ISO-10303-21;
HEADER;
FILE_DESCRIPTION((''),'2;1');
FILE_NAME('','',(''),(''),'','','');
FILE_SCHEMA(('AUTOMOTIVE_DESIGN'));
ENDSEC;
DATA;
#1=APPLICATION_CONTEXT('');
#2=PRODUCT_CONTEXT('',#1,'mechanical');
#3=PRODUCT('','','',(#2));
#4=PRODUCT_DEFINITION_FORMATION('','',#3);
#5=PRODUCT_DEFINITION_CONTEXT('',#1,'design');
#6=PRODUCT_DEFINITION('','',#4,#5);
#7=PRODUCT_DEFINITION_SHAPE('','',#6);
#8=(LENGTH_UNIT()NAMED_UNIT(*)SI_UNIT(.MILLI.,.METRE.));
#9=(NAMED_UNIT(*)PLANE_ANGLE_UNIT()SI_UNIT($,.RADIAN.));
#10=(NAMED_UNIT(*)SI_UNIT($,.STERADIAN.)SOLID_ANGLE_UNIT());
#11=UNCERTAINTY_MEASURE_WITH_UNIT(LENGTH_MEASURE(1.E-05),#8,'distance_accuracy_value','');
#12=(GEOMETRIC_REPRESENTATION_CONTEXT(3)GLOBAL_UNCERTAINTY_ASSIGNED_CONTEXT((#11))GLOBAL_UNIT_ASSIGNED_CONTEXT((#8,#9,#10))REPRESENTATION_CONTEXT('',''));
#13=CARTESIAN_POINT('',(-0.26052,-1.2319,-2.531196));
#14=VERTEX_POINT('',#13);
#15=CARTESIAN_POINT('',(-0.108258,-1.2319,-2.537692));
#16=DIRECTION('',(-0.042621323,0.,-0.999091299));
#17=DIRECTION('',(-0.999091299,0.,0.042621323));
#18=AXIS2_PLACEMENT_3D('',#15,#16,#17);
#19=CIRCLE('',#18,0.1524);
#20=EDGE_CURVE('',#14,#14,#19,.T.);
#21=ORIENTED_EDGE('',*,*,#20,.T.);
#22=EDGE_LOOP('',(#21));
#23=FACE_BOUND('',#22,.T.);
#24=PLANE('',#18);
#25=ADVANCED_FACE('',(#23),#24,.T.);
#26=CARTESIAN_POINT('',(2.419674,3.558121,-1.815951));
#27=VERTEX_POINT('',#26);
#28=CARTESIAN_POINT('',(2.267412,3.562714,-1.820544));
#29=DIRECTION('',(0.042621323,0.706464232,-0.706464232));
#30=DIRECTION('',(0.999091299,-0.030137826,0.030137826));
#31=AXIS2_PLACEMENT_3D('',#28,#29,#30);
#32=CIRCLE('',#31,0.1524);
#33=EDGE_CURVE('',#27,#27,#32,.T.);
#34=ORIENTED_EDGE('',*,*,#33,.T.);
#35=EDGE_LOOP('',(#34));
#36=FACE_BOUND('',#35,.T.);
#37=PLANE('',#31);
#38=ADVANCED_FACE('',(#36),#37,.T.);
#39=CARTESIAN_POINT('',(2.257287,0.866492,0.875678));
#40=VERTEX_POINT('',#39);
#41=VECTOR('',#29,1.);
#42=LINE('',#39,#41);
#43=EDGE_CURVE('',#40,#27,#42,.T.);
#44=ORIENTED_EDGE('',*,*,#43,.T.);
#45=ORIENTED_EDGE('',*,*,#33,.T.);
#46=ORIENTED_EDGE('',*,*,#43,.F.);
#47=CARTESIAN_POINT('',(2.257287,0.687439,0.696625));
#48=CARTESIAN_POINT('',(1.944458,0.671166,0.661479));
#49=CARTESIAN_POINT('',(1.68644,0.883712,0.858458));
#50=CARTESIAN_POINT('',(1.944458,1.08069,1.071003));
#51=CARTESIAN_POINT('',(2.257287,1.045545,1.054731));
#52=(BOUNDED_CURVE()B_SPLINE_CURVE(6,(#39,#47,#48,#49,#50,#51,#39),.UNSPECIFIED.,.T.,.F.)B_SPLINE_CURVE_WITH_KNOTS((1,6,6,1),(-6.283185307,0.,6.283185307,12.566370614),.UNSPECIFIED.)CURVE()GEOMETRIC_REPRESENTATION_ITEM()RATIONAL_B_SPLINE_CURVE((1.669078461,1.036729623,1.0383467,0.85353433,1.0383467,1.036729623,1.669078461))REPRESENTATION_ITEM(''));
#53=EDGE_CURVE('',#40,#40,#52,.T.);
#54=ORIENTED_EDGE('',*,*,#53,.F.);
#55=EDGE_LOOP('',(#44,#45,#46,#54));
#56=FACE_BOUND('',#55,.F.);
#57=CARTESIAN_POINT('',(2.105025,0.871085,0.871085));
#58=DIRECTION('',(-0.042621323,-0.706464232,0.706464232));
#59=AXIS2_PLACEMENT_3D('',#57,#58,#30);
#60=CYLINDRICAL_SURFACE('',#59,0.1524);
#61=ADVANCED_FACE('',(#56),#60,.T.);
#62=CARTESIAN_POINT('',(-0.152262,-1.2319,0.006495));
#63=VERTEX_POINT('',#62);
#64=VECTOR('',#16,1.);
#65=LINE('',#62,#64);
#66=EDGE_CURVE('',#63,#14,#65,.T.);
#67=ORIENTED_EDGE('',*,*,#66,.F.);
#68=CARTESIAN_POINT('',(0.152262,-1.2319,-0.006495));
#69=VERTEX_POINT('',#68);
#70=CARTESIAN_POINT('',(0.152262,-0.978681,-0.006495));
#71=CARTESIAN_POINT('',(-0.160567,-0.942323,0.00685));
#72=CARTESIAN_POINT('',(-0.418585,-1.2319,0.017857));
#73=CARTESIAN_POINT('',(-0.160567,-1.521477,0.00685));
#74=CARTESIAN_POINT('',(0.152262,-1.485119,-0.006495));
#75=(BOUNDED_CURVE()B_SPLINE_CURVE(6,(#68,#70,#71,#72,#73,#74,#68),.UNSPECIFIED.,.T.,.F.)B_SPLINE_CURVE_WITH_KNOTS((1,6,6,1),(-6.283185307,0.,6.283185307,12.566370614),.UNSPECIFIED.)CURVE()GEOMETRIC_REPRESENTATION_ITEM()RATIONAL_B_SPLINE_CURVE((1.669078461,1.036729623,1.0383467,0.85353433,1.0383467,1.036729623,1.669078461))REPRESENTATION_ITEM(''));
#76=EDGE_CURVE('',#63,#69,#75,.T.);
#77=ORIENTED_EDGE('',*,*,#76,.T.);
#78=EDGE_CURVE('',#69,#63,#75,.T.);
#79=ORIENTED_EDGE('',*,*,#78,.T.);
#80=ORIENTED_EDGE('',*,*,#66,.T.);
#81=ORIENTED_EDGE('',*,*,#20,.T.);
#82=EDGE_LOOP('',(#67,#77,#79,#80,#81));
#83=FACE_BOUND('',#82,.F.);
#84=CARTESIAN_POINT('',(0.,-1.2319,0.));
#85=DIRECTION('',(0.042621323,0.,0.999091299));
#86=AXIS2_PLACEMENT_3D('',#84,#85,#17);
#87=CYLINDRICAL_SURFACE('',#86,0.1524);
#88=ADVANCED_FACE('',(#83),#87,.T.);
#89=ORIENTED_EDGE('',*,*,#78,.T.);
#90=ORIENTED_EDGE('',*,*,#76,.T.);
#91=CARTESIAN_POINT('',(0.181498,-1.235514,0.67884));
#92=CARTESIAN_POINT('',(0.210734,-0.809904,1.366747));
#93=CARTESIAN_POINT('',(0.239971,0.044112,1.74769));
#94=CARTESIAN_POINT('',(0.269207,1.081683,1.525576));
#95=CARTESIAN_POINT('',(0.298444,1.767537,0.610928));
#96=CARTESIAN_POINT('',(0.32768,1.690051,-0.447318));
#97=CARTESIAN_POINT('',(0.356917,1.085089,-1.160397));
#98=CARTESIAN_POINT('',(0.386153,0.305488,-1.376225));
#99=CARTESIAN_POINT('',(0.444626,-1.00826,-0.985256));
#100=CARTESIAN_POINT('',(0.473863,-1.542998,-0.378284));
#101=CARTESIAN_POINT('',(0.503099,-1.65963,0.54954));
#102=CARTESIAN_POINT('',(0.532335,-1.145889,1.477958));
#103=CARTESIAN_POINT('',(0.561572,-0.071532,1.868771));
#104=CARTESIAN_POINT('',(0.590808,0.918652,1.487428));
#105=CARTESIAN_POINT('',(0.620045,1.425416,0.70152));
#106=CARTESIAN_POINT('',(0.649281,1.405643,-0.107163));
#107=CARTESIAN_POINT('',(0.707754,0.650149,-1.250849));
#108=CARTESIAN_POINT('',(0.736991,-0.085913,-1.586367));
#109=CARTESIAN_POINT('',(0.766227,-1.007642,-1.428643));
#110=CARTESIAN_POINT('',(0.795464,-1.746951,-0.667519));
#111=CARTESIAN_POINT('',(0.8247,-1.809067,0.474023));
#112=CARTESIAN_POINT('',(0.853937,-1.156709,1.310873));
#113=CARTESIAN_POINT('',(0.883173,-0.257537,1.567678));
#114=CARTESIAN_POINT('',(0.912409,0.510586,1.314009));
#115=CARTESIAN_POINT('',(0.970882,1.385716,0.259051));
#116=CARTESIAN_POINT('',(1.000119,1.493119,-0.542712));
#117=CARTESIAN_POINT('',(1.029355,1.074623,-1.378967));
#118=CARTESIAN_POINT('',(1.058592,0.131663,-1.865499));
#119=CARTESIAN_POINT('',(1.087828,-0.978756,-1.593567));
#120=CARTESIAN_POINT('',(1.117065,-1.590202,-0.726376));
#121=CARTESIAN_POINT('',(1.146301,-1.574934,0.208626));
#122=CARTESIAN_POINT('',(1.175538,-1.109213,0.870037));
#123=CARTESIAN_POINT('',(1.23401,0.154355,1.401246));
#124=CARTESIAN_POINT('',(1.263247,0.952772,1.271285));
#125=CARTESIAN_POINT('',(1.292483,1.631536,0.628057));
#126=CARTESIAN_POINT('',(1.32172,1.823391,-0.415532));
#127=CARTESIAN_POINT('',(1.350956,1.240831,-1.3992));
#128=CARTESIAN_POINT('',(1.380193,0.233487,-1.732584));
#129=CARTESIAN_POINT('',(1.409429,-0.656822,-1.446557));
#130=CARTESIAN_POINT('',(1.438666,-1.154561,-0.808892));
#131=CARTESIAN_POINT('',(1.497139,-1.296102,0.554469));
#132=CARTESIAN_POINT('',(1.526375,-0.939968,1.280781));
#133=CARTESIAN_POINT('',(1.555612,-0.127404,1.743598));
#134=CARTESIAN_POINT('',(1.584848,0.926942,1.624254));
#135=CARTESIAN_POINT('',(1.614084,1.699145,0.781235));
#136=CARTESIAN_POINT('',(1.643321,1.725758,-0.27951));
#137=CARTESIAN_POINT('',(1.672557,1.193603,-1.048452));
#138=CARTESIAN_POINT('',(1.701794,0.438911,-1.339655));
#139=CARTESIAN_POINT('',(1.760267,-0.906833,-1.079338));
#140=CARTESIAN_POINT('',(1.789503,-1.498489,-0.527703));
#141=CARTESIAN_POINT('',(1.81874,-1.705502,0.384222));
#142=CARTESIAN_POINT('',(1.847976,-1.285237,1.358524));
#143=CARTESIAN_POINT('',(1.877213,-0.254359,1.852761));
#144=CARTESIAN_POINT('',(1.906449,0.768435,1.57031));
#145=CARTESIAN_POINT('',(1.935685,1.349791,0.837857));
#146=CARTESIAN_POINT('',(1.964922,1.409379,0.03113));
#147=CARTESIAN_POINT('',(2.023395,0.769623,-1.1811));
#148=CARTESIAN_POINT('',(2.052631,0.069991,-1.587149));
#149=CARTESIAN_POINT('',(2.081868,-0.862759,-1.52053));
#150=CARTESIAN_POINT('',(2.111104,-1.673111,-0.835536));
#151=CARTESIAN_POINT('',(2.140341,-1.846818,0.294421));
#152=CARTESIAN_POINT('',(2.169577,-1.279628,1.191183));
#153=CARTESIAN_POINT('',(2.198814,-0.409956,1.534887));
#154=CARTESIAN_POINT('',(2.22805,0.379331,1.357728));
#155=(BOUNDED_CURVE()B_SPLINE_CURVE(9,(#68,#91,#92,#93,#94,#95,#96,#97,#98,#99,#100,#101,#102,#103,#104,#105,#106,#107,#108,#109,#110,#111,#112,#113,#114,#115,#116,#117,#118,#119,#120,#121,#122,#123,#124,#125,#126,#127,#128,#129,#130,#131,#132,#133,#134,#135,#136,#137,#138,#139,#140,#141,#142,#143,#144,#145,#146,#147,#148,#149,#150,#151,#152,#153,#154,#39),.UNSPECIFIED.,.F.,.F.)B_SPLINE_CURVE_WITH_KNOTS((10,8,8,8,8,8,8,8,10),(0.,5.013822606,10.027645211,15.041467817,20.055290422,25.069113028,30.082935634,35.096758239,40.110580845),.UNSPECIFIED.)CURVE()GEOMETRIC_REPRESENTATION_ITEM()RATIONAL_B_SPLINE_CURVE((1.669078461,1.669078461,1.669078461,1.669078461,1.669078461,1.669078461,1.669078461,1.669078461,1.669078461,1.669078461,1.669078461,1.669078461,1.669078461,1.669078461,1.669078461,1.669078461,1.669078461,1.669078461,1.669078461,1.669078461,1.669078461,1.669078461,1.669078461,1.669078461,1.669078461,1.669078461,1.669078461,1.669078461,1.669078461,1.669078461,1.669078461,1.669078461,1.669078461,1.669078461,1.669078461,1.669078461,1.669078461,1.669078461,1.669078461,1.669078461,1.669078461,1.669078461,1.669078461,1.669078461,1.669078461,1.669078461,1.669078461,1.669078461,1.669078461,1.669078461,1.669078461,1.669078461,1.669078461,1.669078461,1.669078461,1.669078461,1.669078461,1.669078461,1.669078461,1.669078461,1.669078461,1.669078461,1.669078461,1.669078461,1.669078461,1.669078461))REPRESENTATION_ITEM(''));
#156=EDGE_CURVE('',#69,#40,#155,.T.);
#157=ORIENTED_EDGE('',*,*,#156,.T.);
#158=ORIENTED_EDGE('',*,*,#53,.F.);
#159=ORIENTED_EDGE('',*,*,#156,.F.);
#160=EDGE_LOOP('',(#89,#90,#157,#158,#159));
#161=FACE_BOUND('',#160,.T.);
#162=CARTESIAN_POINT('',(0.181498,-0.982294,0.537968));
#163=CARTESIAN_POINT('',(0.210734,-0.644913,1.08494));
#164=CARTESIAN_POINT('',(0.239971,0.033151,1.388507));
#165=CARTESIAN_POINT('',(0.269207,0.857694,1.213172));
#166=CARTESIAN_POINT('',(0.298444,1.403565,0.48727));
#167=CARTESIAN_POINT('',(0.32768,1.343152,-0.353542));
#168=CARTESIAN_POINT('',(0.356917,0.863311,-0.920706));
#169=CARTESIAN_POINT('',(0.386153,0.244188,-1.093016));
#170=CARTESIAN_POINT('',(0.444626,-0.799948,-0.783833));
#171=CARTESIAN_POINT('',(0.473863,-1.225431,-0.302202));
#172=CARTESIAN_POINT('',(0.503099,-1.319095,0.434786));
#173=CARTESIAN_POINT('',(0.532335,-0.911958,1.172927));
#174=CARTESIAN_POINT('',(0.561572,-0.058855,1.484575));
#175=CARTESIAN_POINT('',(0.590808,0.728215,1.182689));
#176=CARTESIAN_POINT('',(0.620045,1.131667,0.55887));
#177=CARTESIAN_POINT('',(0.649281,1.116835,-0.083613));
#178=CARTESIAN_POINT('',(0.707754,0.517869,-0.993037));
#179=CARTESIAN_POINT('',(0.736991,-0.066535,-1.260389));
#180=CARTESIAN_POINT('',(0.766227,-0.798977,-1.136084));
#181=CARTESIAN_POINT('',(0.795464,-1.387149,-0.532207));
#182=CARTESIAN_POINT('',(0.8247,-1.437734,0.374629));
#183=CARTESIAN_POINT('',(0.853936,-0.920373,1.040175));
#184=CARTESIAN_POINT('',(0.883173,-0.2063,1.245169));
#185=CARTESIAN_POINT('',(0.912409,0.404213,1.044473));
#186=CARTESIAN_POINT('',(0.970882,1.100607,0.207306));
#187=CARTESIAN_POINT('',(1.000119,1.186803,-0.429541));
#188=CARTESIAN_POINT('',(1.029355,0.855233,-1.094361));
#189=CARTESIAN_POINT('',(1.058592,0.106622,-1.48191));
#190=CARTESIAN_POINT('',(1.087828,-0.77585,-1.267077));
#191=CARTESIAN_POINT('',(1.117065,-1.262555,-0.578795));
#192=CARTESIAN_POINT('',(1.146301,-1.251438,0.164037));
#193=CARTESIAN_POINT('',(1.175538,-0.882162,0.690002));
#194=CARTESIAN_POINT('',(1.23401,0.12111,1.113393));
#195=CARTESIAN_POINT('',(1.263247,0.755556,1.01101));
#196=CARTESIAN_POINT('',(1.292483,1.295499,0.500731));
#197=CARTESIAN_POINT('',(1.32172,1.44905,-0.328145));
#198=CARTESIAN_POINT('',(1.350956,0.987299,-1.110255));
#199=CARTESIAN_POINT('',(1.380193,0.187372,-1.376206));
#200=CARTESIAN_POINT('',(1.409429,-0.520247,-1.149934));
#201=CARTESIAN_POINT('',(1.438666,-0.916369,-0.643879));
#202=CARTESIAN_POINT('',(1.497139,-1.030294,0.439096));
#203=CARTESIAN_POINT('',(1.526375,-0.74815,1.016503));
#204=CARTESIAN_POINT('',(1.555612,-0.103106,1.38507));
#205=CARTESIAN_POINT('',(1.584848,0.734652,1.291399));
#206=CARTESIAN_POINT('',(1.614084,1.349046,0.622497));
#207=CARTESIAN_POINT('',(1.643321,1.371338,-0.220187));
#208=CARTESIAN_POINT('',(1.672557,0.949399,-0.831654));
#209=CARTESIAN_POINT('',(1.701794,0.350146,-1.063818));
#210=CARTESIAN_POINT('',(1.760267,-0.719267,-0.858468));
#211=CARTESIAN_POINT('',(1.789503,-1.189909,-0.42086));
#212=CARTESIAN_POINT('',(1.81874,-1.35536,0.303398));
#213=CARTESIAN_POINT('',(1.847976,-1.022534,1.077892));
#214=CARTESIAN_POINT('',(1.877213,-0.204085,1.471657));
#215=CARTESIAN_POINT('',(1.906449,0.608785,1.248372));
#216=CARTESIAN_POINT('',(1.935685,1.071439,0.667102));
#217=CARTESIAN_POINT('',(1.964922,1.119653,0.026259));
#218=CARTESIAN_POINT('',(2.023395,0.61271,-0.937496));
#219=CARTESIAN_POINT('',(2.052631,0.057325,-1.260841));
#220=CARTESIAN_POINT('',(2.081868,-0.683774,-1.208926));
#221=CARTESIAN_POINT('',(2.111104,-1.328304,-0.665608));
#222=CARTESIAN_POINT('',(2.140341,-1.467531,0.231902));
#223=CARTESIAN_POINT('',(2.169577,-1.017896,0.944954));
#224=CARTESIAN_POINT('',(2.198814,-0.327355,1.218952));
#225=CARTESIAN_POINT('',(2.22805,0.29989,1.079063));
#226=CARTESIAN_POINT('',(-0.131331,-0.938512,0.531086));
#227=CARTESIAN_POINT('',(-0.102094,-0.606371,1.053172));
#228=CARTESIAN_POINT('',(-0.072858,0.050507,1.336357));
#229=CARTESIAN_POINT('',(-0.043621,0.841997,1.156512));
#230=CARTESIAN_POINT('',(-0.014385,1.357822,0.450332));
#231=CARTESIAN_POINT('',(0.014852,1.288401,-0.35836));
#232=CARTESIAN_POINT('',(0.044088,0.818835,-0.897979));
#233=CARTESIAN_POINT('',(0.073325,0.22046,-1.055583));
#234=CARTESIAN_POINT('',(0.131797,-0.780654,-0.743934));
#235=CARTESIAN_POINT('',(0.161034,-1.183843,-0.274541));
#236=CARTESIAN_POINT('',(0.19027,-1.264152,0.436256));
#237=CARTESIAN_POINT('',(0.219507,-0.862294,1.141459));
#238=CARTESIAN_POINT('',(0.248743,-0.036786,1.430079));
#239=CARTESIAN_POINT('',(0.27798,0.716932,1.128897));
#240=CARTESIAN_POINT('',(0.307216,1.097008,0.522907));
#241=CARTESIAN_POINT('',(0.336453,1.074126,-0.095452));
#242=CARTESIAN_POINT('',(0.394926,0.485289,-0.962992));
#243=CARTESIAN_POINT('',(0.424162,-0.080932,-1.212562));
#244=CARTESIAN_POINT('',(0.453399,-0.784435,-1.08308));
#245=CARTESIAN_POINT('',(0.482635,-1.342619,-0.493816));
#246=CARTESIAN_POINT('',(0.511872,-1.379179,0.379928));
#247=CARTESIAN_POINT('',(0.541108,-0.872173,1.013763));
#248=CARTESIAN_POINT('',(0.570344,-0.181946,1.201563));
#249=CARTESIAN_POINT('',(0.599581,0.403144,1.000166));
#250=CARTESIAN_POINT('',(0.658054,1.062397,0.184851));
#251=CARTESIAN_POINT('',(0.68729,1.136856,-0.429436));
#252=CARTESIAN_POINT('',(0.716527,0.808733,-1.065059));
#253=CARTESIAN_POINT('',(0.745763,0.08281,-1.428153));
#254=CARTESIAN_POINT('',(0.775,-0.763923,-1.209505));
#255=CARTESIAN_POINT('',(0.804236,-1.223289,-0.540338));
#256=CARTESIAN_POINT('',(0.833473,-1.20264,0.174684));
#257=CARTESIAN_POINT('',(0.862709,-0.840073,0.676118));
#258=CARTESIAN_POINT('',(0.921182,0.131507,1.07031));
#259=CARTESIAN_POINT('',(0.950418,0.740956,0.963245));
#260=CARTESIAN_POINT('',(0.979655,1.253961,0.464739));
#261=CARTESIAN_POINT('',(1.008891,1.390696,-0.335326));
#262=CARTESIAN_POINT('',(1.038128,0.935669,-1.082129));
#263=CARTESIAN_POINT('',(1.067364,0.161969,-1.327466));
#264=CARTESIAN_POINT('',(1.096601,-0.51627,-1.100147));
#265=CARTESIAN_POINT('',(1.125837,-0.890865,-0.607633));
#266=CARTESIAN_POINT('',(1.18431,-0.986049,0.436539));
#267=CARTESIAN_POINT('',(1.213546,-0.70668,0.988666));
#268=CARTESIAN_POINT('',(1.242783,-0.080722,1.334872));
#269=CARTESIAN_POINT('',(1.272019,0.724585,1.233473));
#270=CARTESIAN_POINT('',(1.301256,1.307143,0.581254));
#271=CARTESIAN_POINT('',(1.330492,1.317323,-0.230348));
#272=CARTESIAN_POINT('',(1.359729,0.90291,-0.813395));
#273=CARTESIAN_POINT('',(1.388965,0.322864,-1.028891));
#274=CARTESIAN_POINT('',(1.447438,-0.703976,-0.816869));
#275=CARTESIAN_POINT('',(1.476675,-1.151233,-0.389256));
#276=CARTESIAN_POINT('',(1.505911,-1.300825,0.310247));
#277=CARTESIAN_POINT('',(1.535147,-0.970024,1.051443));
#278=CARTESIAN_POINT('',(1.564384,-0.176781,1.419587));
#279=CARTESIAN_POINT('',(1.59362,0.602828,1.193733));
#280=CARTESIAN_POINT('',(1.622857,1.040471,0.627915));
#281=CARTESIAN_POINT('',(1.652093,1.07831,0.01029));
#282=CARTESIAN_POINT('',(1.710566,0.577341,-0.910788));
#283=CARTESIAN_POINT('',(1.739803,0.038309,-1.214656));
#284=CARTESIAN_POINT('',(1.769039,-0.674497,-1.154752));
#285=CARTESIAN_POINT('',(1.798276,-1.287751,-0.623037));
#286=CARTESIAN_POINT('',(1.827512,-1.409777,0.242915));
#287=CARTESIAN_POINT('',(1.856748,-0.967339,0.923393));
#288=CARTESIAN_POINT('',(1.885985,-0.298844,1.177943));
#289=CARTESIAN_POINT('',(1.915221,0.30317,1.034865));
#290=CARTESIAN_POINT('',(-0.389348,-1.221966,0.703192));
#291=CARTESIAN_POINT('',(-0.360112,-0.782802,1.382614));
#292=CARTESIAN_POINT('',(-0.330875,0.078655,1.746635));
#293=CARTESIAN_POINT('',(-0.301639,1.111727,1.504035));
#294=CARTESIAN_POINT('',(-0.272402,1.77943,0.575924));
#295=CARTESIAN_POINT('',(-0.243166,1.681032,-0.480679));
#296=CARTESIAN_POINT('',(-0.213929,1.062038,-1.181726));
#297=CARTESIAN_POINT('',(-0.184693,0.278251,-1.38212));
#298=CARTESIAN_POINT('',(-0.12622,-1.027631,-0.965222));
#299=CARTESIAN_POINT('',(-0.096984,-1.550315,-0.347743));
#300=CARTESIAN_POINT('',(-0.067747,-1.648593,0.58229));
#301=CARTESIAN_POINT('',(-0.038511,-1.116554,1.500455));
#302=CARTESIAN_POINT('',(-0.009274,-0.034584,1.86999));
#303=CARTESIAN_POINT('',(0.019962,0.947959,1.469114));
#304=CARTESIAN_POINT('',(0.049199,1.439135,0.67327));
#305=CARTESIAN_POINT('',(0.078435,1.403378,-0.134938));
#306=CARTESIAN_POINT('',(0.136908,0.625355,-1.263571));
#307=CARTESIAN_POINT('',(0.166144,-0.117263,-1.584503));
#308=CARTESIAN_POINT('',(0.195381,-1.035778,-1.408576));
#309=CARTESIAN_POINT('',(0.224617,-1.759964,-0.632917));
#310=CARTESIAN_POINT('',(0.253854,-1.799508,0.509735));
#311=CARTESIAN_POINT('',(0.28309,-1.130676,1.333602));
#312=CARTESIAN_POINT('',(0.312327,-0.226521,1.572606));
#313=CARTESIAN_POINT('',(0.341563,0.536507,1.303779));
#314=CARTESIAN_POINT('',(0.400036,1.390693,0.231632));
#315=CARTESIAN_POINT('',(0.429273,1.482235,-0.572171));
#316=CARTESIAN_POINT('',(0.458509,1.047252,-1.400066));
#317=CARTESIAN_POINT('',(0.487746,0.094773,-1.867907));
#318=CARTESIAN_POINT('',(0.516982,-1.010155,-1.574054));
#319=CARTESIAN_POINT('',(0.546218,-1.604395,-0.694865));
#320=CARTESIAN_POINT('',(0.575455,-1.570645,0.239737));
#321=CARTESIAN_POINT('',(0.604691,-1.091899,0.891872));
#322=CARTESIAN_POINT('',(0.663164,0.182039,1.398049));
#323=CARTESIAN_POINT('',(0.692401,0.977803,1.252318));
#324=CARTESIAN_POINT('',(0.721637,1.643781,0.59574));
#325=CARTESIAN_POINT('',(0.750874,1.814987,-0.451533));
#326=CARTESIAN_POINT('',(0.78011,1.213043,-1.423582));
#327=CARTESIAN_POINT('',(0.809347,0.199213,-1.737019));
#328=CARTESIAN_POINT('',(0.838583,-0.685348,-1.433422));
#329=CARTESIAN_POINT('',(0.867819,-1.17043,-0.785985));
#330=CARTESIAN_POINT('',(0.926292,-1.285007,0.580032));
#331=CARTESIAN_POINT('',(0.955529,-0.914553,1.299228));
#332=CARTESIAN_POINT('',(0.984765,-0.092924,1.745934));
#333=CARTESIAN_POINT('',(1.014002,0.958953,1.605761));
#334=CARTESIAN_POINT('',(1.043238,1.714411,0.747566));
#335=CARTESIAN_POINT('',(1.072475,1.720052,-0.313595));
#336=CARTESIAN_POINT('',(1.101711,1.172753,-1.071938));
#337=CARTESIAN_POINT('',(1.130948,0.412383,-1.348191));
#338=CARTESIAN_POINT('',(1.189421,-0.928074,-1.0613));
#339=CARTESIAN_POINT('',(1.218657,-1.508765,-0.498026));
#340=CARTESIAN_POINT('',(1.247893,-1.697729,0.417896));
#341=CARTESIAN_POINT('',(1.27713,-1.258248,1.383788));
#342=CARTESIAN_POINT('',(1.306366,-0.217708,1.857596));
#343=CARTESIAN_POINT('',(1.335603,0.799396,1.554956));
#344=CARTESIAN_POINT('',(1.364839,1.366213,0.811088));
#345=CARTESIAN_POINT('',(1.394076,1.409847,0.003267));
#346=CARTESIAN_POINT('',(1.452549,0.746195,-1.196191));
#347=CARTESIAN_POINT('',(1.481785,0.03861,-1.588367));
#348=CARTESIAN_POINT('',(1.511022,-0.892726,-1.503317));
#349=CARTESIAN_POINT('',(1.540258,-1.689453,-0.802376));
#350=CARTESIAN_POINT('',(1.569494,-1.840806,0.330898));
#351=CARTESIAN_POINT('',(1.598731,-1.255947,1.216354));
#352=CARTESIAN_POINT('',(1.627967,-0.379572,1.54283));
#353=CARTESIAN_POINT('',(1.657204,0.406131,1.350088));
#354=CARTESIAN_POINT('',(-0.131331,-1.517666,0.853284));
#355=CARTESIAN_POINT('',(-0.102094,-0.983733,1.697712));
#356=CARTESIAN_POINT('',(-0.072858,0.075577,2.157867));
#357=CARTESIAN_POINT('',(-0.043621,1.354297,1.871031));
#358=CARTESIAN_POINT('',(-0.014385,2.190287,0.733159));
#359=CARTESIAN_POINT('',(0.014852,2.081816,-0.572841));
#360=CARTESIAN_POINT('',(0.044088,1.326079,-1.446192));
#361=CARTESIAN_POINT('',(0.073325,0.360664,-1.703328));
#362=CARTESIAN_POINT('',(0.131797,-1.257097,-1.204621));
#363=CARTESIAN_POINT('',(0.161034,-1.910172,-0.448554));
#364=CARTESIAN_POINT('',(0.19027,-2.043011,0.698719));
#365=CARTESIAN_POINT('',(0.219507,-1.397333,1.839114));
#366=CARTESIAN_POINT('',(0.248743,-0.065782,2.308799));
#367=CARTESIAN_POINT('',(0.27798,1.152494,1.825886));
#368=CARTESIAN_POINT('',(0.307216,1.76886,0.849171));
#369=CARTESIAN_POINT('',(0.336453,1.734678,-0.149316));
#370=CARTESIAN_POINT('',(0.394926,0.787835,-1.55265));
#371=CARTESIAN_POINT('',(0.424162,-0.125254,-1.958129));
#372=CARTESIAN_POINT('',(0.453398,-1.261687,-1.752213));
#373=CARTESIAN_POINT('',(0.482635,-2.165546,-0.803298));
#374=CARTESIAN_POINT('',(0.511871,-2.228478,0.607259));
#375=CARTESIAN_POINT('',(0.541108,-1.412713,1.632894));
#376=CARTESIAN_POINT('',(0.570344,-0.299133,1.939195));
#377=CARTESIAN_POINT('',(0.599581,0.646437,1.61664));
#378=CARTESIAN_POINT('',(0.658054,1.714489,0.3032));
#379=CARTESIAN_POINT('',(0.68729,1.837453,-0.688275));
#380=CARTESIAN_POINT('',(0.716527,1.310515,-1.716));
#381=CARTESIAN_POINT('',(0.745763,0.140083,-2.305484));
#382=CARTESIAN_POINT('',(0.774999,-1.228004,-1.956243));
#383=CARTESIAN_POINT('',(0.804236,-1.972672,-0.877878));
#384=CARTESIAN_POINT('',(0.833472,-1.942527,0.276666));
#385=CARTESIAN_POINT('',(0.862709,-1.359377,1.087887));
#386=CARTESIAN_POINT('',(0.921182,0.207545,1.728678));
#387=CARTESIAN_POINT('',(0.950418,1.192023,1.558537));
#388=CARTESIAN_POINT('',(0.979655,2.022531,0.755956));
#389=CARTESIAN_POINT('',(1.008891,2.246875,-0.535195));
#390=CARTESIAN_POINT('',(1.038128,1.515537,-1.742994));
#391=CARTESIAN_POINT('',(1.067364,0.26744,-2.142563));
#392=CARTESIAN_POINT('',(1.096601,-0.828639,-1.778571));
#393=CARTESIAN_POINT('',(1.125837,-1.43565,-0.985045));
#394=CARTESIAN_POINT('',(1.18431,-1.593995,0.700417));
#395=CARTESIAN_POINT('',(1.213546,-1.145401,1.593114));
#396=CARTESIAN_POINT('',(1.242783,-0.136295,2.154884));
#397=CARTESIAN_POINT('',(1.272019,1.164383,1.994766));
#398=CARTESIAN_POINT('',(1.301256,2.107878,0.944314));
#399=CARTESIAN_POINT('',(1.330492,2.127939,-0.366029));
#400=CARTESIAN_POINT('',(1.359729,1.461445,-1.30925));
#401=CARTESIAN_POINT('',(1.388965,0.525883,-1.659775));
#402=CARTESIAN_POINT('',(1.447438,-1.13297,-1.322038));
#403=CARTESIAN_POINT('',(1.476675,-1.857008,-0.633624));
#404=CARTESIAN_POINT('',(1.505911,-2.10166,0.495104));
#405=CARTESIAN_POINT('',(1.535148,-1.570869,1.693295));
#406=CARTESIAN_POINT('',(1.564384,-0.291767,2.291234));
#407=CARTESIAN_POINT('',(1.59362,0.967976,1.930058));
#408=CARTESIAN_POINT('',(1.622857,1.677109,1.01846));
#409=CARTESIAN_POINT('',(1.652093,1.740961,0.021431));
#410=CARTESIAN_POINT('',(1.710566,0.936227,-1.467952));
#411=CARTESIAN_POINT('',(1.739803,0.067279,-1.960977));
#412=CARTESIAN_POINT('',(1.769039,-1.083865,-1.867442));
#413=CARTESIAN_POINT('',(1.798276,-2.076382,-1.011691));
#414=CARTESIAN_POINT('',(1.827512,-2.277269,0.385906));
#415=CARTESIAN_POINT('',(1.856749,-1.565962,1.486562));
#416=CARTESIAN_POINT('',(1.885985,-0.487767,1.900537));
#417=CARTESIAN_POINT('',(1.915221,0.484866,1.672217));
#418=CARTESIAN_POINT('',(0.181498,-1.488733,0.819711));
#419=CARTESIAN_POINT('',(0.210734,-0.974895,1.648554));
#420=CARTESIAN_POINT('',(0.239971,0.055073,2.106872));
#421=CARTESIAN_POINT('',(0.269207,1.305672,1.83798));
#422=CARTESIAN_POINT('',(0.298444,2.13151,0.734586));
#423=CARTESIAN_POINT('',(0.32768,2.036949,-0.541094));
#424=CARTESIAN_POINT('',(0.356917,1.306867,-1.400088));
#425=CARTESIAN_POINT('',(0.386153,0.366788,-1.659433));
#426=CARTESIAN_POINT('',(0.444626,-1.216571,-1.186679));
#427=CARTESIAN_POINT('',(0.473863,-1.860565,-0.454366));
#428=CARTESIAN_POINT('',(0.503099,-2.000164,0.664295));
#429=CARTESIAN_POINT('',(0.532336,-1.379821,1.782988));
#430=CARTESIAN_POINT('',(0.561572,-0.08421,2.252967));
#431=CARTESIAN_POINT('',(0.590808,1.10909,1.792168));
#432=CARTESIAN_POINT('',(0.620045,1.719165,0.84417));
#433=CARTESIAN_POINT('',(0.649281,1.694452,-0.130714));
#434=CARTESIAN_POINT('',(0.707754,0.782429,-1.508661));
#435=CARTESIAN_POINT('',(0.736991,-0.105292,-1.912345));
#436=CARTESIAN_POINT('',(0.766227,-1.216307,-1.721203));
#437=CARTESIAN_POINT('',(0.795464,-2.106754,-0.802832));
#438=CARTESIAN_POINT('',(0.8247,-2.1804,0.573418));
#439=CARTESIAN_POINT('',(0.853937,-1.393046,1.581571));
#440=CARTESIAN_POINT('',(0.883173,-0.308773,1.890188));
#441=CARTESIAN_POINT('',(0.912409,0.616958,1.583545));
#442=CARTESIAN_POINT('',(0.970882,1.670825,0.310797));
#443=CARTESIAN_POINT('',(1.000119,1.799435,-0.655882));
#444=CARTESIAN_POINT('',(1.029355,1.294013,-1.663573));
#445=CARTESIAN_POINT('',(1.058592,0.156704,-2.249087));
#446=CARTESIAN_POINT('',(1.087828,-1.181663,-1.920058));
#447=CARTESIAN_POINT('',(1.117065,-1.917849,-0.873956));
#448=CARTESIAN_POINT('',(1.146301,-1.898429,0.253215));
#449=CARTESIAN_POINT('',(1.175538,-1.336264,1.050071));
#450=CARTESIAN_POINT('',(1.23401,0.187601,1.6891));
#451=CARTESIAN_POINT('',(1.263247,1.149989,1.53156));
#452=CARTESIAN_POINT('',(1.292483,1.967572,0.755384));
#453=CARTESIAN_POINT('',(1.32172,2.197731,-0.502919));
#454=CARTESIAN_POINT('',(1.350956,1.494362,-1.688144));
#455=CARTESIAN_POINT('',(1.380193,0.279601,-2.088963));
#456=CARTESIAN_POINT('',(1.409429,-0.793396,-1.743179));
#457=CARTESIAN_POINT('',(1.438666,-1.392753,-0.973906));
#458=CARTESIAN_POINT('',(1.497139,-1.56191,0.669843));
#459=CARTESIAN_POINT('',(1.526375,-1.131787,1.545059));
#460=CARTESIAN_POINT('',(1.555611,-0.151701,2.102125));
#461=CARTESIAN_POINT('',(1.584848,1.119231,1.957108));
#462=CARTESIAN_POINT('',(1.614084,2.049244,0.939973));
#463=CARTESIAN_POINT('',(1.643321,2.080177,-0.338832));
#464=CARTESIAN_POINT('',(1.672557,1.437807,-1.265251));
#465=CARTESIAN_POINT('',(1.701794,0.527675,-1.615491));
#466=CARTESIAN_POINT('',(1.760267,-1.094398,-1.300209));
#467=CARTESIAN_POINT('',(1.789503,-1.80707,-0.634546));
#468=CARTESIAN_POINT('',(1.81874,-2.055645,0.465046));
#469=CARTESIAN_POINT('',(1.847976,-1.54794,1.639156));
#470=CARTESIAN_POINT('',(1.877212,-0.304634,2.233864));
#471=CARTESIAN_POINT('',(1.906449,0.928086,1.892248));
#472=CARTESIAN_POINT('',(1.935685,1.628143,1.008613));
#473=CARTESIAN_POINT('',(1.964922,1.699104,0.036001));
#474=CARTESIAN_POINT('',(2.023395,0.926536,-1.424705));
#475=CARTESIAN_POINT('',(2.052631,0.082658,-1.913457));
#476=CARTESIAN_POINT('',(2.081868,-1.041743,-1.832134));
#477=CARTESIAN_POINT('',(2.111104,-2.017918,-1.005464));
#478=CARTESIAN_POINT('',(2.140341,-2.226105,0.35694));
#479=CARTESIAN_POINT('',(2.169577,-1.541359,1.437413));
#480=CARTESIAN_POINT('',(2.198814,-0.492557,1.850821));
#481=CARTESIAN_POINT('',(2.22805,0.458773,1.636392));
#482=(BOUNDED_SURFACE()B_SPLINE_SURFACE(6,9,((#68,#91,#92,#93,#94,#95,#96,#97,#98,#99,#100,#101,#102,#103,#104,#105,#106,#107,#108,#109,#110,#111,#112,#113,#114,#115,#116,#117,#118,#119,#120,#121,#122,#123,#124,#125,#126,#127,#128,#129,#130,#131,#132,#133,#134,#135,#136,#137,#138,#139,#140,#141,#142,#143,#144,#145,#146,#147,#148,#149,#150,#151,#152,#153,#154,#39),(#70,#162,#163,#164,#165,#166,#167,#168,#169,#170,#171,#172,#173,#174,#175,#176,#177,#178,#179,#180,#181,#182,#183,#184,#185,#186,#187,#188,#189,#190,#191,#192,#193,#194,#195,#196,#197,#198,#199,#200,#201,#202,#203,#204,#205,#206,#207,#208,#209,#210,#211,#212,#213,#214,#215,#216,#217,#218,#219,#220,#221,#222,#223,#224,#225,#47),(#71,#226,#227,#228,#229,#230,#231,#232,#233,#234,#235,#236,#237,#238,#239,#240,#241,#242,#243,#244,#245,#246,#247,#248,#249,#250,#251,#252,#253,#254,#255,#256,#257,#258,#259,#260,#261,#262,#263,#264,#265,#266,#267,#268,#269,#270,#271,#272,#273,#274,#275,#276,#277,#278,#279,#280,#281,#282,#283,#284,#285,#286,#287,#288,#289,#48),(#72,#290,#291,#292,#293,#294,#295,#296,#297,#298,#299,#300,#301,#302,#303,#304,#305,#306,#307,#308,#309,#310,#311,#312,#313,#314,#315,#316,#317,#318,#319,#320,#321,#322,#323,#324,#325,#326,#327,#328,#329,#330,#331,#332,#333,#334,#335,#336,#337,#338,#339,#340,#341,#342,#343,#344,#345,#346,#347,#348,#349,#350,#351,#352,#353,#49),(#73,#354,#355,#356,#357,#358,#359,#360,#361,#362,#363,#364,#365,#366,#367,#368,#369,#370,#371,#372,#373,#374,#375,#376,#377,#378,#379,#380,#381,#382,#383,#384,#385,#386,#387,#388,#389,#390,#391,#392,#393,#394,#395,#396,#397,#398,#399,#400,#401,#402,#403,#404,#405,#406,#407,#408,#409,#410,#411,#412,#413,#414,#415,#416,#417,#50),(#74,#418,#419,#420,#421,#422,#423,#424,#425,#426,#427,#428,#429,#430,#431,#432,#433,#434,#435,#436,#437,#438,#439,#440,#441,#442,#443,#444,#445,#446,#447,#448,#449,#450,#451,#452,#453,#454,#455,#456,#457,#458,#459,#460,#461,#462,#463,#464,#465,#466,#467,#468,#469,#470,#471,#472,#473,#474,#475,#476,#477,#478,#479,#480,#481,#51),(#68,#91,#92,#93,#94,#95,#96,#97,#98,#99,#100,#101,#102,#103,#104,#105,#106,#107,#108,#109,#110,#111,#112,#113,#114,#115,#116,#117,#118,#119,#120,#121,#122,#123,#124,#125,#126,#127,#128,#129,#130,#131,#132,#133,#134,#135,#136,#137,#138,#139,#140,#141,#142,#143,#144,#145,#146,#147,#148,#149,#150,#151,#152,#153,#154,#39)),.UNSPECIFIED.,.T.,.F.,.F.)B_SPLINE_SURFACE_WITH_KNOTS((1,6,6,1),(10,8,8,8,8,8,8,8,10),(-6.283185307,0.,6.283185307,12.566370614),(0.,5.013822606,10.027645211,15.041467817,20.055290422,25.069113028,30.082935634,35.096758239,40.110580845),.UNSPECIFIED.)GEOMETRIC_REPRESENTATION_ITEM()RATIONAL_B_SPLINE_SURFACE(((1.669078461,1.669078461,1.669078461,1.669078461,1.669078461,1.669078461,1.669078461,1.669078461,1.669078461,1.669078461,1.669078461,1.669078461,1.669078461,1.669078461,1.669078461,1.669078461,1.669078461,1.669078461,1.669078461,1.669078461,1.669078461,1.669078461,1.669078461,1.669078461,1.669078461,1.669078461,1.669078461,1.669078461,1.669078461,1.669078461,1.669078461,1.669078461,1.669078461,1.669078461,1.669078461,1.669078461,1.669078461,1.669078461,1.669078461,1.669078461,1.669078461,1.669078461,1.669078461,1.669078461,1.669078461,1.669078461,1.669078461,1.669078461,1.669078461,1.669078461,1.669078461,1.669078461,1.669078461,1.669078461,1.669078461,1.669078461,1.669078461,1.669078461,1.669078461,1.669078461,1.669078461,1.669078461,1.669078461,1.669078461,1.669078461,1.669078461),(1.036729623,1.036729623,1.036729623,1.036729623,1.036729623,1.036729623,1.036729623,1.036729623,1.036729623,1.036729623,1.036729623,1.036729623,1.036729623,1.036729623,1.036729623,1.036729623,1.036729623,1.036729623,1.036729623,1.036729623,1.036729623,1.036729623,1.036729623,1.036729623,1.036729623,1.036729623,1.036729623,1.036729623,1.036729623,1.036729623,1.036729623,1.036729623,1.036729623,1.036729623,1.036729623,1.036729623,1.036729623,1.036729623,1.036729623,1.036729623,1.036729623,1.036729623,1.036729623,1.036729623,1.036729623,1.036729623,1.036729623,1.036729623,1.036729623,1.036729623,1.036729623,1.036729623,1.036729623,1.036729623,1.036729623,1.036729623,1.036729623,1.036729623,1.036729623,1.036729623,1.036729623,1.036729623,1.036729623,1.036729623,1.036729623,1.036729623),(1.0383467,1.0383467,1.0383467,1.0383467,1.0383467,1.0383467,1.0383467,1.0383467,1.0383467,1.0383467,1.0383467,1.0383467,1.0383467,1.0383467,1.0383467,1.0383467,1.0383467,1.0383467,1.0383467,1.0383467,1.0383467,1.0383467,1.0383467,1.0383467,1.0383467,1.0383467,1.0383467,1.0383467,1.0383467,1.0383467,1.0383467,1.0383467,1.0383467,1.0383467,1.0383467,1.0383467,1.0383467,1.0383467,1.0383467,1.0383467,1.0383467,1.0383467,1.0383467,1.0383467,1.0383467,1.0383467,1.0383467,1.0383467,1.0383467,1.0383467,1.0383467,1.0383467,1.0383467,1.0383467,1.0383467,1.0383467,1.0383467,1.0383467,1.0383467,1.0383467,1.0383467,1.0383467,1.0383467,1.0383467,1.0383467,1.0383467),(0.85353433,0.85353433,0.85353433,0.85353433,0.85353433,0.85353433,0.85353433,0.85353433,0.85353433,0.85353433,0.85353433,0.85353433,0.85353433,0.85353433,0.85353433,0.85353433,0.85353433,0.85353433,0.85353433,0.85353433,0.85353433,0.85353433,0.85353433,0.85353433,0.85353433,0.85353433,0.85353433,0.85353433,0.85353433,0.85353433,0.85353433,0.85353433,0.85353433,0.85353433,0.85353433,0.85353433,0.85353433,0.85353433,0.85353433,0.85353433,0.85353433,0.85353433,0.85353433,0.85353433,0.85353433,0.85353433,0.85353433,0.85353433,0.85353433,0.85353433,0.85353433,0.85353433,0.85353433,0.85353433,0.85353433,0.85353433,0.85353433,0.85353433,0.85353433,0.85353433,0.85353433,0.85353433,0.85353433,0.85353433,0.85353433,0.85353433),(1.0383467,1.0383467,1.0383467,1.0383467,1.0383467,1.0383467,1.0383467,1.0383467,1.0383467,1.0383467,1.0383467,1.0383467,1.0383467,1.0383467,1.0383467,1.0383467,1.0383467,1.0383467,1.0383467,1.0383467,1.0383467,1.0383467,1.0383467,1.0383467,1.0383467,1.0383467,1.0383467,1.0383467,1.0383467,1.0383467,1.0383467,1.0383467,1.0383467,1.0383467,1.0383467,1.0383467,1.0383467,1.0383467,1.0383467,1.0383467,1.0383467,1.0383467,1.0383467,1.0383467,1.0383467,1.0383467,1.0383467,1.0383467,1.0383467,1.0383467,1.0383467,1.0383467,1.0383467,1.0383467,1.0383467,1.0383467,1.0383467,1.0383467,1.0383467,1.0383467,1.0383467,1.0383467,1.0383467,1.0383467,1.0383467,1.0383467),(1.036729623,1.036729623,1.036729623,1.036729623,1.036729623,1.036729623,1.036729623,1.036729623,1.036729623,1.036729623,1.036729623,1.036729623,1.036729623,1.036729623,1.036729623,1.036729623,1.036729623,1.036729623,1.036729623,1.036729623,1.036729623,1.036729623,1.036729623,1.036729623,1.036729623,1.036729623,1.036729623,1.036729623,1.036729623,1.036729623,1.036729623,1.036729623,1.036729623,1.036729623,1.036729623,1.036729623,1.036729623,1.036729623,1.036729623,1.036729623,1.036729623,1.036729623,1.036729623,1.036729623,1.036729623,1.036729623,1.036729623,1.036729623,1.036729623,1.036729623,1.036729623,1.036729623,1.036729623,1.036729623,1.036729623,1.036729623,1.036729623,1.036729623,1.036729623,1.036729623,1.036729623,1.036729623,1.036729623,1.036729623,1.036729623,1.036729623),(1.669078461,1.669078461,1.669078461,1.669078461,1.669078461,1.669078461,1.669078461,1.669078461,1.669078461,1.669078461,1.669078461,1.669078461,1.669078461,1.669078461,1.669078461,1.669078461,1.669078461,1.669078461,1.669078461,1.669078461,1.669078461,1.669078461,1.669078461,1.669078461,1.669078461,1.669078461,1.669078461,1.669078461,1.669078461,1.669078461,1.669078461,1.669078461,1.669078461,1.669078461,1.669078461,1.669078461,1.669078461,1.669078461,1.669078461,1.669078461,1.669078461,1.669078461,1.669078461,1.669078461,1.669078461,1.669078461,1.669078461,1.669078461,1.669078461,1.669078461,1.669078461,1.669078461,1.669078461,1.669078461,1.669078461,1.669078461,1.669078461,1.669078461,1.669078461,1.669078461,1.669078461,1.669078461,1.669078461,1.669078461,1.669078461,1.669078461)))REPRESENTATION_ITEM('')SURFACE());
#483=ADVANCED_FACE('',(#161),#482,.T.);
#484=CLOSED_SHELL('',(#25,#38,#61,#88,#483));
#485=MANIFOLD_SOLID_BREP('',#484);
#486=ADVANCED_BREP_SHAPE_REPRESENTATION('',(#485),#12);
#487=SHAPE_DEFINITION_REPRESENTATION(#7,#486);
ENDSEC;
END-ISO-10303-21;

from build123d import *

# Parameters (mm, degrees)
SWEEP1_PITCH       = 0.3302
SWEEP1_HEIGHT      = 2.105025
SWEEP1_RADIUS      = 1.2319
SWEEP1_START_ANGLE = 90
SKETCH2_R          = 0.1524
SKETCH3_R          = 0.1524
EXTRUDE1_DEPTH     = 2.54
SKETCH4_R          = 0.1524
EXTRUDE2_DEPTH     = 3.81


with BuildPart() as part:
    # Sweep1: sweep along a helix
    with BuildLine() as sweep1_path:
        add(Helix(SWEEP1_PITCH, SWEEP1_HEIGHT, SWEEP1_RADIUS, center=(0, 0, 0), direction=(1, 0, 0), lefthand=True, mode=Mode.PRIVATE).rotate(Axis((0, 0, 0), (1, 0, 0)), SWEEP1_START_ANGLE))
    # Sketch2 → Sweep1 (sweep)
    with BuildSketch(Plane(origin=(0, -1.2319, 0), x_dir=(0.9990912985626407, 2.6806532356687372e-14, -0.042621322555927425), z_dir=(0.042621322555927425, -1.0817088978066005e-14, 0.9990912985626407))):
        Circle(SKETCH2_R)
    sweep(path=sweep1_path.line, is_frenet=True)

    # Sketch3 → Extrude1 (add)
    with BuildSketch(Plane(origin=(0, 0, 0), x_dir=(-0.9990912985626407, -2.677877944414561e-14, 0.04262132255592743), z_dir=(-0.04262132255592743, 1.0817088978066008e-14, -0.9990912985626407))):
        with Locations((0, -1.2319)):
            Circle(SKETCH3_R)
    extrude(amount=EXTRUDE1_DEPTH)

    # Sketch4 → Extrude2 (add)
    with BuildSketch(Plane(origin=(0.00382394, 0.063383229, -0.063383229), x_dir=(0.9919823221787042, -0.1141262767153525, -0.05427951223101079), z_dir=(0.0426213225559274, 0.7064642322380609, -0.7064642322381728))):
        with Locations(Location((1.941451857, -1.473574924, 0), (0, 0, 353.160939734))):
            Circle(SKETCH4_R)
    extrude(amount=EXTRUDE2_DEPTH)


solid = part.part
